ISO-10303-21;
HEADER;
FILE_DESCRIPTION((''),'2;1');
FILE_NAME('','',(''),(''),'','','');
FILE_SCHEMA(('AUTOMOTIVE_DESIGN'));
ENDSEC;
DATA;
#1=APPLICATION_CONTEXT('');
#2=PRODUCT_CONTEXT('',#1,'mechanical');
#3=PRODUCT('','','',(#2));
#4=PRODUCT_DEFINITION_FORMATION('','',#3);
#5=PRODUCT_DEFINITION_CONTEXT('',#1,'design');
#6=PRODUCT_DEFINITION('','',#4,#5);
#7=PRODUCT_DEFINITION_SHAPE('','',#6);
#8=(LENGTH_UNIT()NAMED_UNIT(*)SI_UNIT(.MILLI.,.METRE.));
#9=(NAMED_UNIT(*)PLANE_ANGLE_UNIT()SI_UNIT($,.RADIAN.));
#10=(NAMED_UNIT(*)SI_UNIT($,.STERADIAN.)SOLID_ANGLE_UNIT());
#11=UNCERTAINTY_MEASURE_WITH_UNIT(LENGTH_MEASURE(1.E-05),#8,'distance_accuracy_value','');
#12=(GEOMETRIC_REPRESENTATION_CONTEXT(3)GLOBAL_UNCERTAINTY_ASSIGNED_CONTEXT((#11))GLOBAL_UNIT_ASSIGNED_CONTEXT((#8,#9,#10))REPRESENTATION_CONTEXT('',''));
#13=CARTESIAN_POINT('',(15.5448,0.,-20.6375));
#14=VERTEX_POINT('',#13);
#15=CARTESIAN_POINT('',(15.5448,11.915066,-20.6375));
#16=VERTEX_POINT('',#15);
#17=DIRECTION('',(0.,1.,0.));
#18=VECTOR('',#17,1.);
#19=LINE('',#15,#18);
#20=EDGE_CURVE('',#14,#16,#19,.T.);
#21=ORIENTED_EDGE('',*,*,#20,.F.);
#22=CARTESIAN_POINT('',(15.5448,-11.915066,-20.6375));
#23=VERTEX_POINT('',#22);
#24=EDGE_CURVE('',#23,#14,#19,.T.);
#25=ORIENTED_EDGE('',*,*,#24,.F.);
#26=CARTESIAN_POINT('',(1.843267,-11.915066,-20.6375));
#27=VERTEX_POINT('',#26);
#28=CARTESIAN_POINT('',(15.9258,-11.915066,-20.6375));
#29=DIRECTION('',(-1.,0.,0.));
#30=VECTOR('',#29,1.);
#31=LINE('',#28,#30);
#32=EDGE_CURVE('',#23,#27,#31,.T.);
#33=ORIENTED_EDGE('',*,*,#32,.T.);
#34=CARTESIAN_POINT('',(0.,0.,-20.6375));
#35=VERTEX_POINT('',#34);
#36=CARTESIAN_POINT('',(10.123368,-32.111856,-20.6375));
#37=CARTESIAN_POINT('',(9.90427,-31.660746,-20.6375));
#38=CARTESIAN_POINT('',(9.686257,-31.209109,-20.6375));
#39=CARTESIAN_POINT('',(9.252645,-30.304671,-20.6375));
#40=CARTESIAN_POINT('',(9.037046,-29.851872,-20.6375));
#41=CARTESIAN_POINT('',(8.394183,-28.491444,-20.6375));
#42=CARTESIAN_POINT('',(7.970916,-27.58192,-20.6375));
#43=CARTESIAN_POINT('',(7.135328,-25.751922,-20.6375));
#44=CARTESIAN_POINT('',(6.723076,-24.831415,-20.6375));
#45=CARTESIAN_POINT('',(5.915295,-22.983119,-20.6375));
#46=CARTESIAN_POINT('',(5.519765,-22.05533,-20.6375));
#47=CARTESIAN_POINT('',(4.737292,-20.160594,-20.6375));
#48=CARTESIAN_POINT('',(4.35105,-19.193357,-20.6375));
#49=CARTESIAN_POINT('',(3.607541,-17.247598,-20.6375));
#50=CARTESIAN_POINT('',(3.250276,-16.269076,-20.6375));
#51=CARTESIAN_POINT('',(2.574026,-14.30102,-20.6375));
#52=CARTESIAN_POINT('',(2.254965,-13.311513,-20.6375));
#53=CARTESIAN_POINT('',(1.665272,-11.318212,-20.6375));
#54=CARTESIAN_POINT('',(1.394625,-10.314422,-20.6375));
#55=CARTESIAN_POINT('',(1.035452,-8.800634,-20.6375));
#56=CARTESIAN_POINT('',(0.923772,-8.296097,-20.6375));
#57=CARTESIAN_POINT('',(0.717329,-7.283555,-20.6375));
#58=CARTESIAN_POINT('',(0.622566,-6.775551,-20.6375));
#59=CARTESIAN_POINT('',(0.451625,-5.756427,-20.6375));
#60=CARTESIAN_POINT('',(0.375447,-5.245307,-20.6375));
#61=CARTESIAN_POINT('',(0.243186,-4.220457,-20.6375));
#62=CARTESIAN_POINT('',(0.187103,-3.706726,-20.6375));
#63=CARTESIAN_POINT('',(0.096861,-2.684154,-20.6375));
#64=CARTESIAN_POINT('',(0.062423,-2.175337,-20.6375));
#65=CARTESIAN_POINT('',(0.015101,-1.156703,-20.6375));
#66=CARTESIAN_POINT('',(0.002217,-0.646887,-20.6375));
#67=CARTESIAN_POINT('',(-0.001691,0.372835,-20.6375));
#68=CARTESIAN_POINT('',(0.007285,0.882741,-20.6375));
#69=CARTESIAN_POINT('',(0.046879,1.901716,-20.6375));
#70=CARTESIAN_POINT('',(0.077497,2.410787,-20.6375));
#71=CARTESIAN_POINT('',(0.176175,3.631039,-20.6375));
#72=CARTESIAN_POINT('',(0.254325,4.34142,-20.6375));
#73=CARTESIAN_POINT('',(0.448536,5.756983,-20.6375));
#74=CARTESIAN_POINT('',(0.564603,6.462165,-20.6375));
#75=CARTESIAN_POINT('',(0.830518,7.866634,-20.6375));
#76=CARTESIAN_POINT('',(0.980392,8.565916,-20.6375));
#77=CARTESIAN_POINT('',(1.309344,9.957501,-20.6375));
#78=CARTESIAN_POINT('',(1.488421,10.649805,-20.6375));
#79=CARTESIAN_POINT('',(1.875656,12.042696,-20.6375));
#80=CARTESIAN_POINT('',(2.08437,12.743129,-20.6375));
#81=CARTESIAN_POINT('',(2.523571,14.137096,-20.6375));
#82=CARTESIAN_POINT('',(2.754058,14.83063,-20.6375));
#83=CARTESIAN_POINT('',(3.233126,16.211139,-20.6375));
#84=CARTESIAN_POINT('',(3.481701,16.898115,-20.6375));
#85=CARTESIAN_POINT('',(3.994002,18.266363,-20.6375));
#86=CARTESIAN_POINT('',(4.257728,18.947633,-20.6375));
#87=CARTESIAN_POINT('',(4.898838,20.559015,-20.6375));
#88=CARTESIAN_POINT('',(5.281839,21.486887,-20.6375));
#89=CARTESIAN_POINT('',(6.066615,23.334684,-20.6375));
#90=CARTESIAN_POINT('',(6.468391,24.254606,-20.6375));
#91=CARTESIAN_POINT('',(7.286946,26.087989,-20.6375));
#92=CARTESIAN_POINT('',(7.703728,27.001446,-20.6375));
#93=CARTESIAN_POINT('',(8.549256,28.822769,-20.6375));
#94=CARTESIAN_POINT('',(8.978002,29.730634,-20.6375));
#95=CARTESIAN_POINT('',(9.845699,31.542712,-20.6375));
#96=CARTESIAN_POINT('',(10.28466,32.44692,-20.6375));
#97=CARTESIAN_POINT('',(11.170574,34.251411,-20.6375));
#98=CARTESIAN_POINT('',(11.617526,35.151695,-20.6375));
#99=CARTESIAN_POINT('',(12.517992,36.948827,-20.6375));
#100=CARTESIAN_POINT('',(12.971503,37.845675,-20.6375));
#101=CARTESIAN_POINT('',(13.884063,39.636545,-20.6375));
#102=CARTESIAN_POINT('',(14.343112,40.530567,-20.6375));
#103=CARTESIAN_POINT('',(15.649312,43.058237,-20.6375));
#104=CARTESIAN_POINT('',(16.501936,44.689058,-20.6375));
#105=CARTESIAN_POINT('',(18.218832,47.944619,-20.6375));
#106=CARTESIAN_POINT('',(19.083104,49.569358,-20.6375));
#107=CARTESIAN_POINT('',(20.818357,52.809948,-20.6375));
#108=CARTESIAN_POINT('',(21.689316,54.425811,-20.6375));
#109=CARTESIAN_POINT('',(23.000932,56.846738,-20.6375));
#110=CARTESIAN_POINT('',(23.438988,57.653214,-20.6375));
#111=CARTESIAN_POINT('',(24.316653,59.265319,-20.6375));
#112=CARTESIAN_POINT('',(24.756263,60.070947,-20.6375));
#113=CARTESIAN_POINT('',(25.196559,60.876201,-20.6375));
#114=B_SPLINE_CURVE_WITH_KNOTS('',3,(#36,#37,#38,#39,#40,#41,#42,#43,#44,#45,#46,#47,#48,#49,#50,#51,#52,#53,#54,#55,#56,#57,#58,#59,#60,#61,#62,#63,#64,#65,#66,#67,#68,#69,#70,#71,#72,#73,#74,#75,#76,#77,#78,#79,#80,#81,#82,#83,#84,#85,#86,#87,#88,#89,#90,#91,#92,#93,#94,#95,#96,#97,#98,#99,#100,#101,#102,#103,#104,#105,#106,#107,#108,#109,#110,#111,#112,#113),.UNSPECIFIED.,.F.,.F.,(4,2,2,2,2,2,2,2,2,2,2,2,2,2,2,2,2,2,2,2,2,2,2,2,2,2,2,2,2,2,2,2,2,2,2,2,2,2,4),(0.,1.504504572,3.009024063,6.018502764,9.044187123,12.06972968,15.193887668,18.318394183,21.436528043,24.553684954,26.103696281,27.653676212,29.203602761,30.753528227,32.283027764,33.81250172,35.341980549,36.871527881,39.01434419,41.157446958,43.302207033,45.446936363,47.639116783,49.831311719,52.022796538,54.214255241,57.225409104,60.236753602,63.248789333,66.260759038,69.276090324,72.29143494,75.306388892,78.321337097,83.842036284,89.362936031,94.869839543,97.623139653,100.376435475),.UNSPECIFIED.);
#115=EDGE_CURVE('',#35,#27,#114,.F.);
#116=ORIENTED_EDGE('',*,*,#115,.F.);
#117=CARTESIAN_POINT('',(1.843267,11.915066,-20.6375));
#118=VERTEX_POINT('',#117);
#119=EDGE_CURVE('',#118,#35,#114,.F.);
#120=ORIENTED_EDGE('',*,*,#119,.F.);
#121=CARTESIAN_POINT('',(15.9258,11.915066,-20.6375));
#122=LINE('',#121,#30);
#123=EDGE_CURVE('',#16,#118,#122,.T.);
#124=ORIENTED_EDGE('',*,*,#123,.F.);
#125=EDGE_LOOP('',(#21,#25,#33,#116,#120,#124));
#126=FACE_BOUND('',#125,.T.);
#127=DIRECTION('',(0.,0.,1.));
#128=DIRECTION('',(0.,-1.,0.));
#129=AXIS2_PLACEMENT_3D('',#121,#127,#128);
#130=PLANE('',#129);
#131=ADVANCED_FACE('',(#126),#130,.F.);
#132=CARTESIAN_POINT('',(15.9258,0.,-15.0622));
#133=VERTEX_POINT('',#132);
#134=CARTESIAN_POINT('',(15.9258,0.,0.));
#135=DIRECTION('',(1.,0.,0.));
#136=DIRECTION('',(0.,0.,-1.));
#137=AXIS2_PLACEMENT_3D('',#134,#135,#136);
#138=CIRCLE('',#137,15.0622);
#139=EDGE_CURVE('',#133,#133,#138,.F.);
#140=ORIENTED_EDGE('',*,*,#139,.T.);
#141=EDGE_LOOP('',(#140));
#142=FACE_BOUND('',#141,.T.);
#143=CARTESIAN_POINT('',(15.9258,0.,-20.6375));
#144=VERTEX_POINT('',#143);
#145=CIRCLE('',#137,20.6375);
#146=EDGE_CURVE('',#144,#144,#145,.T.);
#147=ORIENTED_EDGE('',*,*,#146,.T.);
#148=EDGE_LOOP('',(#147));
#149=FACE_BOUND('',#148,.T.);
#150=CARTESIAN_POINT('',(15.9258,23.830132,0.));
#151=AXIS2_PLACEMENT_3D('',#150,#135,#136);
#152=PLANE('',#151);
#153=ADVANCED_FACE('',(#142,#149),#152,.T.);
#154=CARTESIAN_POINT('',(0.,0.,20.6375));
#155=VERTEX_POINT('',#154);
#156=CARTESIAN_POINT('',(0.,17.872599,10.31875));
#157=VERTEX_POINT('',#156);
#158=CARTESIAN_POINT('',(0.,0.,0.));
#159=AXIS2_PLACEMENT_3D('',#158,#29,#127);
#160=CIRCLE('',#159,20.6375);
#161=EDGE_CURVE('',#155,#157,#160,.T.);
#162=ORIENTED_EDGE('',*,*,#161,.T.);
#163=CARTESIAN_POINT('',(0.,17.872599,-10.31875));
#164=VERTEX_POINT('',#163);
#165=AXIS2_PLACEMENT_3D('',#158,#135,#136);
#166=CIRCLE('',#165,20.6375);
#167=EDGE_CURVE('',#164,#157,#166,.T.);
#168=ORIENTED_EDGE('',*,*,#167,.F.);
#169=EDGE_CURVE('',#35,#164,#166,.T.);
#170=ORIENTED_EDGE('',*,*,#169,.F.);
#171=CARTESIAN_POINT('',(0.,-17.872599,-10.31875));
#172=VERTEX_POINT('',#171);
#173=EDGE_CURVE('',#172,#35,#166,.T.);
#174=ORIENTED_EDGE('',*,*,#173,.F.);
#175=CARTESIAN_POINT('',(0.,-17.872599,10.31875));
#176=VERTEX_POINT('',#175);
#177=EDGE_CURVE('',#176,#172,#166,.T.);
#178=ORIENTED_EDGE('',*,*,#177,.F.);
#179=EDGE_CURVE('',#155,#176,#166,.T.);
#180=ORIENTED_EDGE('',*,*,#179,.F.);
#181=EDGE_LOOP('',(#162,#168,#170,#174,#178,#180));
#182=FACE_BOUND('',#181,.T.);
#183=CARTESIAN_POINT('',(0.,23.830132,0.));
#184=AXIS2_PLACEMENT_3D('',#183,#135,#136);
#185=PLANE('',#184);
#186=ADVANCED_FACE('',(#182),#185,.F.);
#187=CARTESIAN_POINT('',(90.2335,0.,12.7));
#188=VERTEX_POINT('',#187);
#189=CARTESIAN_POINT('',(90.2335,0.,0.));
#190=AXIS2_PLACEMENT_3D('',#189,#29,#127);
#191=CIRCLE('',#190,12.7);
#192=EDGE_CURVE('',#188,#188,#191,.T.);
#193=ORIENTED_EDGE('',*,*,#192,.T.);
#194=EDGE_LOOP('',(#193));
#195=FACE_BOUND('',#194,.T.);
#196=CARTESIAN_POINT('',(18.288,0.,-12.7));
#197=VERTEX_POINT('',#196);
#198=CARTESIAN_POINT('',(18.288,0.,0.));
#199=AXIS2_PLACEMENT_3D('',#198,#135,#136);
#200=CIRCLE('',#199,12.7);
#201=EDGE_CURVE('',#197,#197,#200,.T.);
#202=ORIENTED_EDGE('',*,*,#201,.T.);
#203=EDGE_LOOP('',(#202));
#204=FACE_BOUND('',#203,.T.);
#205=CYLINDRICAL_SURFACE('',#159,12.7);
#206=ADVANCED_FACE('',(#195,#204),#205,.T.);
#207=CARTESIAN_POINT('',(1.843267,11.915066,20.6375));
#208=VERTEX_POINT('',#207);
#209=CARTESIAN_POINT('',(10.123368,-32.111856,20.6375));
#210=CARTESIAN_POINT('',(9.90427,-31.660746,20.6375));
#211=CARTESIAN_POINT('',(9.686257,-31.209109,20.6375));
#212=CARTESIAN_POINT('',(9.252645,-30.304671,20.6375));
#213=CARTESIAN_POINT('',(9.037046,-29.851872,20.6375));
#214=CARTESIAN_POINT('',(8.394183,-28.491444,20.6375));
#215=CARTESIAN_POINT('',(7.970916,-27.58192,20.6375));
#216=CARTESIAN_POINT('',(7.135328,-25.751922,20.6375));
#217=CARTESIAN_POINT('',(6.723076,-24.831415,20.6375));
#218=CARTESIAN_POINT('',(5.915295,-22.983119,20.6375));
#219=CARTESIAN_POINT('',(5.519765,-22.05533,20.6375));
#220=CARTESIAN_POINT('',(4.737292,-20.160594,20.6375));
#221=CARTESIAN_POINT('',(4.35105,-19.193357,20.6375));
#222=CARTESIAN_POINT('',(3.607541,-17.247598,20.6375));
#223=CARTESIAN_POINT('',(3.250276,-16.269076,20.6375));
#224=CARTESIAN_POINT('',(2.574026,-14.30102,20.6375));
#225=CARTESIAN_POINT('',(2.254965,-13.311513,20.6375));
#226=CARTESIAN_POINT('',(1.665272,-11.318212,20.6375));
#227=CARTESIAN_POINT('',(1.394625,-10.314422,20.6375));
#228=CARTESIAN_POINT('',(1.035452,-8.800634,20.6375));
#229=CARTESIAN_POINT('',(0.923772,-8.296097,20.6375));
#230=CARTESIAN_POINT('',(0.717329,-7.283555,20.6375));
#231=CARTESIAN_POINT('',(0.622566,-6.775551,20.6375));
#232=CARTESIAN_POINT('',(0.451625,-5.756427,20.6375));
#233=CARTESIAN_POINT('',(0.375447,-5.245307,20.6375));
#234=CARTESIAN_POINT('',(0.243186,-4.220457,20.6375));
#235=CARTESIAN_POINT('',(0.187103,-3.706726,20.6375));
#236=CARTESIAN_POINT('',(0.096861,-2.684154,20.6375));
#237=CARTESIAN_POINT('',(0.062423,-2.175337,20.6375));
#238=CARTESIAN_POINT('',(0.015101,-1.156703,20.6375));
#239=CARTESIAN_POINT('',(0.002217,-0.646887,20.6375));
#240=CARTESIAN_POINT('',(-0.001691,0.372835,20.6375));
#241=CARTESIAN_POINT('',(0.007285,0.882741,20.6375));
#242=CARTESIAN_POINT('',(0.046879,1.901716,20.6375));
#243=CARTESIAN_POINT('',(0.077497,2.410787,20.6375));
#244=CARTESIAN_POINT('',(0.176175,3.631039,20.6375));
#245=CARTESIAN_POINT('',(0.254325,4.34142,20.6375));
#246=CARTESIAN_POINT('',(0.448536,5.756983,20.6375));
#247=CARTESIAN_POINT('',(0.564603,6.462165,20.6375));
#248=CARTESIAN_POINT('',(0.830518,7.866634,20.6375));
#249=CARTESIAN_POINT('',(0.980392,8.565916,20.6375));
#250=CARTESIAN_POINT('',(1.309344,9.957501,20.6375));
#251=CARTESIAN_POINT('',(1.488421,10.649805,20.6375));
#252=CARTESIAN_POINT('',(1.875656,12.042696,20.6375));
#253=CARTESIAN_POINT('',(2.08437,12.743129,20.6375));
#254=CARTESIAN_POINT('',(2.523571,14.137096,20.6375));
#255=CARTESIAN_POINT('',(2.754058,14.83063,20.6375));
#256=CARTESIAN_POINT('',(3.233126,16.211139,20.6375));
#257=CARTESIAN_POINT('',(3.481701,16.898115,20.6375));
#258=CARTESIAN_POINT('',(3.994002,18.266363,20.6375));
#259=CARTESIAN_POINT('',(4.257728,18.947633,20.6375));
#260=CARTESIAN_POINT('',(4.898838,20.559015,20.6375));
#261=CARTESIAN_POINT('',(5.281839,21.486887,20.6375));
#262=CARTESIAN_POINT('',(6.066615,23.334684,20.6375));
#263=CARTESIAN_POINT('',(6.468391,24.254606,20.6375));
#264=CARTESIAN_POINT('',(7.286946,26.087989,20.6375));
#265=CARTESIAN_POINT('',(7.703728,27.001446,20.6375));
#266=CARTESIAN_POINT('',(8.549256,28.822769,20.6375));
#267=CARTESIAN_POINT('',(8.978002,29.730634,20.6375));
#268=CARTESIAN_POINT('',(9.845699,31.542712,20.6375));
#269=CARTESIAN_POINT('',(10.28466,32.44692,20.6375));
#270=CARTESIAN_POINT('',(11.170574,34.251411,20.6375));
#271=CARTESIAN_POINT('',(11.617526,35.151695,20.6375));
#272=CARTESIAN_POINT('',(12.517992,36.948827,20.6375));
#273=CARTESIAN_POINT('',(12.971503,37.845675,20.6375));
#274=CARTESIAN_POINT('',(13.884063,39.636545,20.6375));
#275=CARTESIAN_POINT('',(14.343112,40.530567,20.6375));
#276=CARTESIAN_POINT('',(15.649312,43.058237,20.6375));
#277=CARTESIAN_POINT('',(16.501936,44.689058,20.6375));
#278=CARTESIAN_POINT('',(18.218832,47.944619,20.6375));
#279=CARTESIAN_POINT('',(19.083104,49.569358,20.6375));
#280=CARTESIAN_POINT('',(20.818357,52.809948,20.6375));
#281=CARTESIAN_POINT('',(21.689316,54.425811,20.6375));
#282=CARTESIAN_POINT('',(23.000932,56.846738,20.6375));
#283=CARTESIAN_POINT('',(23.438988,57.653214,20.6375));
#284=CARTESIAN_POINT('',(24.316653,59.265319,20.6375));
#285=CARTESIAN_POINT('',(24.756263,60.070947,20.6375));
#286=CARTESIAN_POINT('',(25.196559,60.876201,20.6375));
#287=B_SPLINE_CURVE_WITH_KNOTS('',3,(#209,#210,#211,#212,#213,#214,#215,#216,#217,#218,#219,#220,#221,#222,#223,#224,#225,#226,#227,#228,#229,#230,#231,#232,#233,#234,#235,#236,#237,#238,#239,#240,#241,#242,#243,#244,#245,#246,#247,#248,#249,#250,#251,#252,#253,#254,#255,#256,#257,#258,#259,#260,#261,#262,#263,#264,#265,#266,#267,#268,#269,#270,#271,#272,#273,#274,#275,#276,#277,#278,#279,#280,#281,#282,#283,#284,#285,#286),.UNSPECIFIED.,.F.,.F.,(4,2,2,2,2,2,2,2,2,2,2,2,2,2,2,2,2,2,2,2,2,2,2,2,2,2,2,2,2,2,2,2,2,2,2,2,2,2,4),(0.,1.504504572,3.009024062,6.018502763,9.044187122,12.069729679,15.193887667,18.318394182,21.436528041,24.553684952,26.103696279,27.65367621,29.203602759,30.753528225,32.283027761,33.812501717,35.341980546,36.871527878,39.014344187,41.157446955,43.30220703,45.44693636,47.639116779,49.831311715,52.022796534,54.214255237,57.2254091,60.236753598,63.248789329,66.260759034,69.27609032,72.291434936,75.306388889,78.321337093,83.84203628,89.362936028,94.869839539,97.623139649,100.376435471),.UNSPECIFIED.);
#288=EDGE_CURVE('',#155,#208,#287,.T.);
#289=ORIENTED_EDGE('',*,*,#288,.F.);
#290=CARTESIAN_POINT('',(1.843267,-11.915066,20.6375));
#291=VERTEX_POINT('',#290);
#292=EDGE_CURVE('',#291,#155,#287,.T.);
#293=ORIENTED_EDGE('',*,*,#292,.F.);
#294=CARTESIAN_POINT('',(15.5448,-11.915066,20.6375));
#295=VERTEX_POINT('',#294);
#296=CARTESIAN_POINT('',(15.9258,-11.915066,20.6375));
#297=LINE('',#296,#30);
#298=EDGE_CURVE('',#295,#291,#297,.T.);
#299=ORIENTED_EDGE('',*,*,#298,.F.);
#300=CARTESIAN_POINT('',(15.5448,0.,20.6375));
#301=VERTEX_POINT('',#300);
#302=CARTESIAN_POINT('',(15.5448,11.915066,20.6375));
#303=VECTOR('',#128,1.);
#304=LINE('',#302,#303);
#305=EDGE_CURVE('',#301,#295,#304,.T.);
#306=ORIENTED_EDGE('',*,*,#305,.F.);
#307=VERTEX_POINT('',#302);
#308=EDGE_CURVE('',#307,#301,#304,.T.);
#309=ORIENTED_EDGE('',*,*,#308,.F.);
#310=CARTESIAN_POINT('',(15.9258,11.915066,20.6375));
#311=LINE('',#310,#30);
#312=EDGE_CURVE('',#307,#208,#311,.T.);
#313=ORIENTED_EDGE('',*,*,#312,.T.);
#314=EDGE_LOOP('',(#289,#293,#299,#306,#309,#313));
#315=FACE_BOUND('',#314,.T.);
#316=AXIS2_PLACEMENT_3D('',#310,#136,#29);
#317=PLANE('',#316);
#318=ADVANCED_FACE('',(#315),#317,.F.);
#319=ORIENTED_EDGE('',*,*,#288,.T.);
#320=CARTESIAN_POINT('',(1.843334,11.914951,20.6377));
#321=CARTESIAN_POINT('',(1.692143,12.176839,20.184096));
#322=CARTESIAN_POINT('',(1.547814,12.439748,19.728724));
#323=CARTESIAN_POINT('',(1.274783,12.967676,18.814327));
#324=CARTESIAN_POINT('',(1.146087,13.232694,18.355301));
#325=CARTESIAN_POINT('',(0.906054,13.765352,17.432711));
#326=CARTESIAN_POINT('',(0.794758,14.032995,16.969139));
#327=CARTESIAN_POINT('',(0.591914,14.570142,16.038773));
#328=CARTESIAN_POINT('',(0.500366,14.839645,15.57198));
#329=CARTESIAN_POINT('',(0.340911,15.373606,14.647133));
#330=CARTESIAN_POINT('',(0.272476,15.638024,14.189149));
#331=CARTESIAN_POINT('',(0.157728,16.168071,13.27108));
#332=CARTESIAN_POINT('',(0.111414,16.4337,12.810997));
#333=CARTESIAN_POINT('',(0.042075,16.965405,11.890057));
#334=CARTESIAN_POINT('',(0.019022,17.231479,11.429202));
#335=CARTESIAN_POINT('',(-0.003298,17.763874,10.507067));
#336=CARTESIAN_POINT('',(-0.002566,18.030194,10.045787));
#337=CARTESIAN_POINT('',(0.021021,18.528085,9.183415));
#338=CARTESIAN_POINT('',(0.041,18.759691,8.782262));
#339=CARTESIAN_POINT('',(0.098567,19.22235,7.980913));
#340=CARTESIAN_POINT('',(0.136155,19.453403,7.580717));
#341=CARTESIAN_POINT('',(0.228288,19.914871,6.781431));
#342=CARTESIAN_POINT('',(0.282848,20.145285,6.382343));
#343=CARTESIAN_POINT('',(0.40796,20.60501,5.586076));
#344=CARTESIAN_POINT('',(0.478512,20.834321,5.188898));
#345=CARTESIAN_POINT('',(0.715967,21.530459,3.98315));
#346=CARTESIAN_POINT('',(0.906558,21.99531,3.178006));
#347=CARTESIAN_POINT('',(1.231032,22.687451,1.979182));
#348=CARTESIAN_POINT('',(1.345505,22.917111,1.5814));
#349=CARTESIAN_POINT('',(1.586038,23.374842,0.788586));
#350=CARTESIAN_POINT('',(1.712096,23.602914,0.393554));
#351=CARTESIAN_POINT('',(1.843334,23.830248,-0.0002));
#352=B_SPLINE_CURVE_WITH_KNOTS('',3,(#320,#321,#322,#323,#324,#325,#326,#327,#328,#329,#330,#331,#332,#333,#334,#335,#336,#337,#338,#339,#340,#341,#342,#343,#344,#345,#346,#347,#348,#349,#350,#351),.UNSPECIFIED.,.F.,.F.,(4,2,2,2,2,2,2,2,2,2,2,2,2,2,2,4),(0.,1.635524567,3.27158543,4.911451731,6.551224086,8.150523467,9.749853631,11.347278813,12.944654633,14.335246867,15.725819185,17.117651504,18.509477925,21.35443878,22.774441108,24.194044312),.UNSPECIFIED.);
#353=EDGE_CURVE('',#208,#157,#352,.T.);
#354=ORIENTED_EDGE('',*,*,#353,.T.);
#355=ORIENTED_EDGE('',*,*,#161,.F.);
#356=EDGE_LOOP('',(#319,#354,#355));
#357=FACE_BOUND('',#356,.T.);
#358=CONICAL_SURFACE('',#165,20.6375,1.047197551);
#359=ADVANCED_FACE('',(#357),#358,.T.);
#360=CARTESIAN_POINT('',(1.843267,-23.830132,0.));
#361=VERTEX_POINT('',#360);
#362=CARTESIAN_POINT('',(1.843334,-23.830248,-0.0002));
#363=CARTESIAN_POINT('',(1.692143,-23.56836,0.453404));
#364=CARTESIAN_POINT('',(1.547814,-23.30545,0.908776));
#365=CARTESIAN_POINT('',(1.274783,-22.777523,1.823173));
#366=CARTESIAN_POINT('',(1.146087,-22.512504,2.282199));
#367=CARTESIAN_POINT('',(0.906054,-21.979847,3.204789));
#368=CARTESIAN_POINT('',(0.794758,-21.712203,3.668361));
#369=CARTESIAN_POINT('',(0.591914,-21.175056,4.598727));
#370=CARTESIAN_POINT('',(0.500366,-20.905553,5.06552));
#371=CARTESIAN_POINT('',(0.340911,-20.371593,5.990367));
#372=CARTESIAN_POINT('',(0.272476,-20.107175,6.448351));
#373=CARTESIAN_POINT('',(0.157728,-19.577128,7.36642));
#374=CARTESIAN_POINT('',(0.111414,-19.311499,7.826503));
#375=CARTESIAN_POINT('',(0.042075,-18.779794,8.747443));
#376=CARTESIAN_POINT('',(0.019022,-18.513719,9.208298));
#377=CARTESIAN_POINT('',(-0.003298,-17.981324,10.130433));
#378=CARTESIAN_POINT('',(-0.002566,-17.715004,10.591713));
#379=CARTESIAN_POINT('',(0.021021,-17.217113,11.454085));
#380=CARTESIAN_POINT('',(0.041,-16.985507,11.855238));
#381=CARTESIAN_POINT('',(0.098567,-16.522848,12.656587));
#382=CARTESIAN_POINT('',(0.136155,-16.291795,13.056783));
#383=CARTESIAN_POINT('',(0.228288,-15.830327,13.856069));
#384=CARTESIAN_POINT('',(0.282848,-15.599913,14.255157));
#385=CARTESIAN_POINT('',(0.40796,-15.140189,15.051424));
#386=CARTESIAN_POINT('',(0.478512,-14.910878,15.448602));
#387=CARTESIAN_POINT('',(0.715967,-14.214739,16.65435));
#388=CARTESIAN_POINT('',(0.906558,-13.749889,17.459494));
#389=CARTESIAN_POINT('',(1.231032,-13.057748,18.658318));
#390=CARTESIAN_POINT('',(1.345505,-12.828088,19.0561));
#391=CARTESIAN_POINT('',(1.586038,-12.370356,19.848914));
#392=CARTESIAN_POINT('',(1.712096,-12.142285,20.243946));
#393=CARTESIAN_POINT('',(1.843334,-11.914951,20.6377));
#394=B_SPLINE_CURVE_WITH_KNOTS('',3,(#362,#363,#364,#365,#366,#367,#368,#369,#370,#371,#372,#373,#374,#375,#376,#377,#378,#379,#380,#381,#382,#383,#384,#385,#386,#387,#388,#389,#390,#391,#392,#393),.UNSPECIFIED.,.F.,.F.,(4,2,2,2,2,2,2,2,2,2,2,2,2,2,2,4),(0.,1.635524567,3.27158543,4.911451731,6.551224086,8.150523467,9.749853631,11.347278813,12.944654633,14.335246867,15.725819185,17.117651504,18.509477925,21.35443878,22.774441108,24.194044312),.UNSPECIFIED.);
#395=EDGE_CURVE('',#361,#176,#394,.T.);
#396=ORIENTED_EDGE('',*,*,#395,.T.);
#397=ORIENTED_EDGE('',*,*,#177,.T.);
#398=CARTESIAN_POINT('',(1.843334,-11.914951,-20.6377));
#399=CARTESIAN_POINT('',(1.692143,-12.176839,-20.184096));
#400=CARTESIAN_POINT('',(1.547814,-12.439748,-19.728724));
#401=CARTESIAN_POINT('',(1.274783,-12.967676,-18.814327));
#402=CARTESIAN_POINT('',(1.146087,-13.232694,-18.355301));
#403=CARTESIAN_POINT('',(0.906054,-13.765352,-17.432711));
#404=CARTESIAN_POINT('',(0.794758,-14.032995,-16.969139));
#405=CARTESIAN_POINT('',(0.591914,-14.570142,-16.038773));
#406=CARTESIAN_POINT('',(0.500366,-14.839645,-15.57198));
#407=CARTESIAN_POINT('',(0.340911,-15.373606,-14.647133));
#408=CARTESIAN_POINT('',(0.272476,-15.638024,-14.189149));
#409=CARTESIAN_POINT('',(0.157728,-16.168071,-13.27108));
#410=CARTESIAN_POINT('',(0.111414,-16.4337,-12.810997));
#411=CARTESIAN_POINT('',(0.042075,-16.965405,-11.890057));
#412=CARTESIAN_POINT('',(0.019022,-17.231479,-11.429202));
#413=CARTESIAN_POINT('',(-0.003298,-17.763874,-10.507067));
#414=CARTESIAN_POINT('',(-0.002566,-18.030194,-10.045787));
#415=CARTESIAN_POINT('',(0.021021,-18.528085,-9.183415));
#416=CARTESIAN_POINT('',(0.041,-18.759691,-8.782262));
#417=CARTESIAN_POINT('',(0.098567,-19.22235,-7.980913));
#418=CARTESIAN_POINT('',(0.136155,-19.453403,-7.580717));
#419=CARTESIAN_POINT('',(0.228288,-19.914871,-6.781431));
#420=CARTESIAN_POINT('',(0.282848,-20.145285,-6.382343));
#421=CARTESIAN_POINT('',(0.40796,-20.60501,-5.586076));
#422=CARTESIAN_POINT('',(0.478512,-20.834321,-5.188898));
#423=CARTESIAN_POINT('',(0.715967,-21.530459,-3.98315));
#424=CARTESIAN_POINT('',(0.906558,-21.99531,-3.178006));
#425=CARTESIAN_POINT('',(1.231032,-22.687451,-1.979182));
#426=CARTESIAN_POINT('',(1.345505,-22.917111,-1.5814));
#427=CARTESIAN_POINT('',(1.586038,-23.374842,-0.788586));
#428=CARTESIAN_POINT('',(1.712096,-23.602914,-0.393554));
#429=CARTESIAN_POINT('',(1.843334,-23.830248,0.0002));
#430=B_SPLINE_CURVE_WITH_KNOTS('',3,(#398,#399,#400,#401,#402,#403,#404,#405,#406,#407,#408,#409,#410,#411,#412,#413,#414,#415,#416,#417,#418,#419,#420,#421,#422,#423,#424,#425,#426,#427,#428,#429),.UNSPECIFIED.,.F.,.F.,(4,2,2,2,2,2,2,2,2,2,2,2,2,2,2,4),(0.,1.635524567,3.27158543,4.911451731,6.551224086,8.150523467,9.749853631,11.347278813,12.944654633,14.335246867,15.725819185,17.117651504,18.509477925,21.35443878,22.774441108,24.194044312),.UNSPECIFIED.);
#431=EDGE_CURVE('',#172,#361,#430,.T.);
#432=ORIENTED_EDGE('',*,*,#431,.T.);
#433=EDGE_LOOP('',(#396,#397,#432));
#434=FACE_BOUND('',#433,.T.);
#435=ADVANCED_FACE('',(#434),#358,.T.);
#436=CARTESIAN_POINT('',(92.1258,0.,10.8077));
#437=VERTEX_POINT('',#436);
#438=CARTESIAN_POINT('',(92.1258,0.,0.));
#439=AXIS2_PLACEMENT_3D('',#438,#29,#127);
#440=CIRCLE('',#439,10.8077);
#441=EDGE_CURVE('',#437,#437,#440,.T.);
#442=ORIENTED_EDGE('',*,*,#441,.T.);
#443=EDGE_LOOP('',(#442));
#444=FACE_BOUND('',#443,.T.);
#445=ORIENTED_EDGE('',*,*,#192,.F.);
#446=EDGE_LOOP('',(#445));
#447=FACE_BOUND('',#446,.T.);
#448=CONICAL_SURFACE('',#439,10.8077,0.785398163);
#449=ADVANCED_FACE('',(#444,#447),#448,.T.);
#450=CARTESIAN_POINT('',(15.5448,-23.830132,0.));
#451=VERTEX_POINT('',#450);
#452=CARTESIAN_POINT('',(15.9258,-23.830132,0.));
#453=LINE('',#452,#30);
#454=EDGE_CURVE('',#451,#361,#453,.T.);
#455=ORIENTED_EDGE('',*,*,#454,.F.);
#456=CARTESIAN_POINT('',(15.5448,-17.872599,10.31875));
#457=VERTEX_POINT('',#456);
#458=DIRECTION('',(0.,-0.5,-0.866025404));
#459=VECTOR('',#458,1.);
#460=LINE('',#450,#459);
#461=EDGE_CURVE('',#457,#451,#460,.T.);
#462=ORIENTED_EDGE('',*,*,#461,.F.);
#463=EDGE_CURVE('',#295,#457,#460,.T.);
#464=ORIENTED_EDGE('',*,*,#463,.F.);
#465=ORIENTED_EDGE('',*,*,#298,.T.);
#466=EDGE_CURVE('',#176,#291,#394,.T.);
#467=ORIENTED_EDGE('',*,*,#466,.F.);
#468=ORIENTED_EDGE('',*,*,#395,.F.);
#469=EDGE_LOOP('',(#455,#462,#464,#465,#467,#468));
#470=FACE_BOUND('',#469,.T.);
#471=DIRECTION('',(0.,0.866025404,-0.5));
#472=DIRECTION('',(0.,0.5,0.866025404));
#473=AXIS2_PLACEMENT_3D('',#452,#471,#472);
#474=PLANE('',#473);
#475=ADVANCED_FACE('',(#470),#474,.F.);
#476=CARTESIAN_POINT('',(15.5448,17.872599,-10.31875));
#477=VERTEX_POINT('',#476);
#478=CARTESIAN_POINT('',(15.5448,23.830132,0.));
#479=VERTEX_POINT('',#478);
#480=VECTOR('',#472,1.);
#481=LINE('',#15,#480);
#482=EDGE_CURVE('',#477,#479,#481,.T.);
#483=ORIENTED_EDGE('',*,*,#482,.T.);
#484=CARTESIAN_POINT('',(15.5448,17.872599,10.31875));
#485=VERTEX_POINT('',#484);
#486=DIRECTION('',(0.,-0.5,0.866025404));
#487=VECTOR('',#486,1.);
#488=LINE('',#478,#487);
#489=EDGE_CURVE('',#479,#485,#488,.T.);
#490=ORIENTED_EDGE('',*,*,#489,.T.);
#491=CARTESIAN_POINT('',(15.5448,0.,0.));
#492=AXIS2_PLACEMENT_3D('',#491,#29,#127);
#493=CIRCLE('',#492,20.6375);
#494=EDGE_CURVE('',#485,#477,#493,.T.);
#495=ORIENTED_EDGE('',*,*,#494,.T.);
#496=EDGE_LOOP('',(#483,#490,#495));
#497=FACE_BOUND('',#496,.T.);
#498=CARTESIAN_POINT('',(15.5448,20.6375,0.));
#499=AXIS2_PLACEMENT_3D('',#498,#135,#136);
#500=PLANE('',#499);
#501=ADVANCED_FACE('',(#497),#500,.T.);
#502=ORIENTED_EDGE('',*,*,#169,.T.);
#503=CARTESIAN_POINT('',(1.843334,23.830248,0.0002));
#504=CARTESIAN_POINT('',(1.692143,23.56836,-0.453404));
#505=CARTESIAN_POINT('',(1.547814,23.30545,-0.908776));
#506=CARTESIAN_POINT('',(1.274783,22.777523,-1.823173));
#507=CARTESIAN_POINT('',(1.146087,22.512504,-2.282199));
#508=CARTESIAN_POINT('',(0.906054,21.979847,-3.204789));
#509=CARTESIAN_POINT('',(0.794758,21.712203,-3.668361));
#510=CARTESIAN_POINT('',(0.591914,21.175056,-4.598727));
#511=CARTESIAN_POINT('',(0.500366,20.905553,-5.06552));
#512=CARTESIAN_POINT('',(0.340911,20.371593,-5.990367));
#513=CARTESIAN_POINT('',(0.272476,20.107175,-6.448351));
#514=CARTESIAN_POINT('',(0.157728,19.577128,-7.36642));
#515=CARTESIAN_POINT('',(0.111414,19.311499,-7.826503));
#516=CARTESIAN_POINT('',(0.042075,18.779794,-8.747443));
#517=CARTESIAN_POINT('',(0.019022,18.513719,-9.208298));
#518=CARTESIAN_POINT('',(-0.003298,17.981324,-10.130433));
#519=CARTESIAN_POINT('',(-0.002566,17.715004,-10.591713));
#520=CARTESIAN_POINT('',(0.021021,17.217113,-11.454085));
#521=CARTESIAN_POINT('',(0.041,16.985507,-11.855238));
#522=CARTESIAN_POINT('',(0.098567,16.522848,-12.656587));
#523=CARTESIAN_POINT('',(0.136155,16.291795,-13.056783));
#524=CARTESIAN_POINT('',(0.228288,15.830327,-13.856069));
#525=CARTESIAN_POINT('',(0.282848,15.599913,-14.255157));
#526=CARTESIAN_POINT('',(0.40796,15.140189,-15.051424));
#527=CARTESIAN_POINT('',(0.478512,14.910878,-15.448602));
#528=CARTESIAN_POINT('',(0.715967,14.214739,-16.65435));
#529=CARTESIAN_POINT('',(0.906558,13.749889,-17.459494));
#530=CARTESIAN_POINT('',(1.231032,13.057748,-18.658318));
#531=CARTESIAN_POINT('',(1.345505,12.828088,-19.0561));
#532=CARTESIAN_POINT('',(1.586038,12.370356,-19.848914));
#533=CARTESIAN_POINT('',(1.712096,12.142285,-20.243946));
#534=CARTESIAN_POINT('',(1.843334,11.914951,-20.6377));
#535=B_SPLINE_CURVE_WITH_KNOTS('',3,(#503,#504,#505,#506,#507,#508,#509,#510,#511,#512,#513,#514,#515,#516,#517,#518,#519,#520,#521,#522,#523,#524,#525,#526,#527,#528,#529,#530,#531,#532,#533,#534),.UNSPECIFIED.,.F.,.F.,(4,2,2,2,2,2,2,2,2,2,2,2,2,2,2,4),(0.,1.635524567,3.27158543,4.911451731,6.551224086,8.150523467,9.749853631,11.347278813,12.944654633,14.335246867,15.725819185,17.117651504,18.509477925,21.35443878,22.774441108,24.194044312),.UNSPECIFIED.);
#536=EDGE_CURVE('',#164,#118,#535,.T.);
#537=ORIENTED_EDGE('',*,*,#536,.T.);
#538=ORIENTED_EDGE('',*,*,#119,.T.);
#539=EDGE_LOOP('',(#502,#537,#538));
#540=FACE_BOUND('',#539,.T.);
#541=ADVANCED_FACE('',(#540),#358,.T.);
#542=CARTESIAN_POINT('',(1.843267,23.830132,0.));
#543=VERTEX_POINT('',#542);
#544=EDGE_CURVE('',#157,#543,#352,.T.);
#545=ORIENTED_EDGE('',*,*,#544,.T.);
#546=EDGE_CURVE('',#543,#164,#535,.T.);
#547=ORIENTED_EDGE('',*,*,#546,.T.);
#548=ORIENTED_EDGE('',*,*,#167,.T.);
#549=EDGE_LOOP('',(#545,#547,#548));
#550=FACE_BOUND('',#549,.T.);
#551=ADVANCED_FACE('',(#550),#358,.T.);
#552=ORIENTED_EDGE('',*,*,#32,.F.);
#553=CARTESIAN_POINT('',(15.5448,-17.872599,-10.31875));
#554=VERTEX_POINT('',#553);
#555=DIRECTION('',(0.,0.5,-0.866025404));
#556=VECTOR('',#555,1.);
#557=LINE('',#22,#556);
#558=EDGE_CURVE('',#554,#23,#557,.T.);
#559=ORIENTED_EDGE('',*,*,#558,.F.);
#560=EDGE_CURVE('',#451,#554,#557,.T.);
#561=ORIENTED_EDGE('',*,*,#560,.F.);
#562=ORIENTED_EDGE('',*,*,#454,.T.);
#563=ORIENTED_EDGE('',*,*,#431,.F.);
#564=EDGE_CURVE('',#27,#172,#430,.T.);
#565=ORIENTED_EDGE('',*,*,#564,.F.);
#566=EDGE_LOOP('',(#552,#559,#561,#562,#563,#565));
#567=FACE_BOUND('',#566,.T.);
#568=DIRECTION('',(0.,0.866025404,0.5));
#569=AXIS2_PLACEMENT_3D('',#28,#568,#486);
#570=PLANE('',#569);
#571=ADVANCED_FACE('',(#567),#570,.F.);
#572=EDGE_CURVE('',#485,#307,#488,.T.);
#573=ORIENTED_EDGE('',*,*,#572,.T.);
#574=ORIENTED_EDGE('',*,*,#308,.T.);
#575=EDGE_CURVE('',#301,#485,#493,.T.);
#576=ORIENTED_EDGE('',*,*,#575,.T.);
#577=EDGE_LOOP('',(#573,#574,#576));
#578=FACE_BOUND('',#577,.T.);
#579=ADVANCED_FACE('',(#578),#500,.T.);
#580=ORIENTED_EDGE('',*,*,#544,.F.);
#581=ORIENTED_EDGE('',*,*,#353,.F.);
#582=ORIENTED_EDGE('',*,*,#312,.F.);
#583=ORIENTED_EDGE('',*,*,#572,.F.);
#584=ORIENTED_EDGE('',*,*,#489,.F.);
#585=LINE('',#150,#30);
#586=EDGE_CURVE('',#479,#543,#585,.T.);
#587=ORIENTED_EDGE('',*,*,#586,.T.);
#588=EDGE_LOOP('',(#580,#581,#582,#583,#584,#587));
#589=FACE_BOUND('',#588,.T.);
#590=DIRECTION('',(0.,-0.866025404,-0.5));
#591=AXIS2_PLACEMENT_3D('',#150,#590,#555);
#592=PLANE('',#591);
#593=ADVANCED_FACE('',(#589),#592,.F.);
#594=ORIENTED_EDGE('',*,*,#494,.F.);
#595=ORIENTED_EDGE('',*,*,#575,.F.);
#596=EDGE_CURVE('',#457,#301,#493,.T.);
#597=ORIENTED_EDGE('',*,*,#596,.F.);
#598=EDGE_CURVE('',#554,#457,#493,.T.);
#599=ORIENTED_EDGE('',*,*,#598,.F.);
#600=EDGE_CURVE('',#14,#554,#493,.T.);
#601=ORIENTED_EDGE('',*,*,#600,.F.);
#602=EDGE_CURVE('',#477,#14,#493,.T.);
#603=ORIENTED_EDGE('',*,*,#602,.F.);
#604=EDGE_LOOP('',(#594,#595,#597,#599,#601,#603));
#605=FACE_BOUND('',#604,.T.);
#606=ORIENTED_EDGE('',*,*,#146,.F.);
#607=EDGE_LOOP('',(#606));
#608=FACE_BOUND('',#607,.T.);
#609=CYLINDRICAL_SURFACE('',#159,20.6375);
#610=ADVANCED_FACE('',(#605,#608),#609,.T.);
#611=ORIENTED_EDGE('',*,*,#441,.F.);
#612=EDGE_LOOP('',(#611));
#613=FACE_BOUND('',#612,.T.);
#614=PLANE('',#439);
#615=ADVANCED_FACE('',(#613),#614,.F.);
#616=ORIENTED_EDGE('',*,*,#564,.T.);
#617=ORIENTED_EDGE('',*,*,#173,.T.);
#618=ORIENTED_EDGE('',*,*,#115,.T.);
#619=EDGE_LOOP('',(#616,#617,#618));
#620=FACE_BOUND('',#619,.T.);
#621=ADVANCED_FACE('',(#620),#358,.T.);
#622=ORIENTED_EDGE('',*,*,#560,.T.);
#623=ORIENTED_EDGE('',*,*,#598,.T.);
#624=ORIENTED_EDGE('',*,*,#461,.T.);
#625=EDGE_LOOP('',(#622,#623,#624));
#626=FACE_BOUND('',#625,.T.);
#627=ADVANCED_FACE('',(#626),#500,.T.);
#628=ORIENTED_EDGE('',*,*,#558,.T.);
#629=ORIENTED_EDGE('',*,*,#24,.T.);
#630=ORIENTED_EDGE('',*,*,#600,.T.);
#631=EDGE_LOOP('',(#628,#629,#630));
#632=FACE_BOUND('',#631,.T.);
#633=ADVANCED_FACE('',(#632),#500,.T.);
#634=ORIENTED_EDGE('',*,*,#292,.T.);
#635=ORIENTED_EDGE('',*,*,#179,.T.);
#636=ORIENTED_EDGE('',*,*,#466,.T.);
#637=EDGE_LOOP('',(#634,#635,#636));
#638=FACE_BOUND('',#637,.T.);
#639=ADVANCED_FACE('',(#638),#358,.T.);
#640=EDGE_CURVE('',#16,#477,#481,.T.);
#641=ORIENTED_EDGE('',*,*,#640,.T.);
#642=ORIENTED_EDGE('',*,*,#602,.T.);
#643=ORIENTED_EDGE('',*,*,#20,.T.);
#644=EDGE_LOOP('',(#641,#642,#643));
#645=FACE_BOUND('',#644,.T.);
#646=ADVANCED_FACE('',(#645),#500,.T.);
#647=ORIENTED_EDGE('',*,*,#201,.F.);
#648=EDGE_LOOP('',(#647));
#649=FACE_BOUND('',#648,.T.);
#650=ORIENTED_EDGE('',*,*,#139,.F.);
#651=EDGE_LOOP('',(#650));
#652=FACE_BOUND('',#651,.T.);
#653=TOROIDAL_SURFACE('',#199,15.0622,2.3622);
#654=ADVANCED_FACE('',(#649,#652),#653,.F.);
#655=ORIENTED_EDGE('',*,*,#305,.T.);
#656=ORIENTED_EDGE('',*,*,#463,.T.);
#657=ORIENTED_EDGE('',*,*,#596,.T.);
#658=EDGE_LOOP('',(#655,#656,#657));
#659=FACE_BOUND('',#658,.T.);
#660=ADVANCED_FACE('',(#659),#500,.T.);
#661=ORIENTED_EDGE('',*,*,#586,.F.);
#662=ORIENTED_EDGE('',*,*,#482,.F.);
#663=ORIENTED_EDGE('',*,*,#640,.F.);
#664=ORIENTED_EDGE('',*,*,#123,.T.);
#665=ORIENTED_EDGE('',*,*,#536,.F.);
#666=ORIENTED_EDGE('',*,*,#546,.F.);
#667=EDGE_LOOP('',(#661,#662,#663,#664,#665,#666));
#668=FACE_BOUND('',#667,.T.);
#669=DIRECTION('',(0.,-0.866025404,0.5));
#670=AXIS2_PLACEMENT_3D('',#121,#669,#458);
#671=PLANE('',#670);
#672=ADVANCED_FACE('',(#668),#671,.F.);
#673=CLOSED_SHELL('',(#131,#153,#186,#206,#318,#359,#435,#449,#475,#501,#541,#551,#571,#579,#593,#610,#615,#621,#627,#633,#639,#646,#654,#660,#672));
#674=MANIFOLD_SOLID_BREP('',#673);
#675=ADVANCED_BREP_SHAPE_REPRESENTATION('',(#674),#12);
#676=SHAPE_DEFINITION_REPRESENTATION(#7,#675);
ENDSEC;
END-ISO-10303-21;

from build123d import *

# Parameters (mm, degrees)
BASEHEAD_DEPTH = 15.9258
SKETCH4_W      = 0.381
SKETCH4_H      = 28.592632361
HEADFILLET_R   = 2.3622


with BuildPart() as part:
    # Sketch1 → BaseHead (new body)
    with BuildSketch(Plane(origin=(0, 0, 0), x_dir=(0, 0, -1), z_dir=(1, 0, 0))):
        Polygon((20.6375, 11.91506618), (20.6375, -11.91506618), (0, -23.830132361), (-20.6375, -11.91506618), (-20.6375, 11.91506618), (0, 23.830132361), align=None)
    extrude(amount=BASEHEAD_DEPTH)

    # BodySke → BaseBody (revolve)
    with BuildSketch(Plane.XY, mode=Mode.PRIVATE) as basebody_sk:
        Polygon((0, 0), (92.1258, 0), (92.1258, 10.8077), (90.2335, 12.7), (0, 12.7), align=None)
    revolve(basebody_sk.sketch.rotate(Axis((0, 0, 0), (1, 0, 0)), 90), axis=Axis((0, 0, 0), (1, 0, 0)))

    # Sketch3 → HeadChamfer (revolve, cut)
    with BuildSketch(Plane.XY):
        Polygon((0, 20.6375), (5.509441362, 30.180132361), (5.509441362, 36.530132361), (-12.7, 36.530132361), (-12.7, 20.6375), align=None)
    revolve(axis=Axis((0, 0, 0), (1, 0, 0)), mode=Mode.SUBTRACT)

    # Sketch4 → BearingFace (revolve, cut)
    with BuildSketch(Plane.XY, mode=Mode.PRIVATE) as bearingface_sk:
        with Locations((15.7353, 34.933816181)):
            Rectangle(SKETCH4_W, SKETCH4_H)
    revolve(bearingface_sk.sketch.rotate(Axis((0, 0, 0), (1, 0, 0)), 270), axis=Axis((0, 0, 0), (1, 0, 0)), mode=Mode.SUBTRACT)

    # HeadFillet
    headfillet_edges = [part.edges().sort_by_distance(p)[0] for p in [
        (15.9258, 0, -12.7),
    ]]
    fillet(headfillet_edges, radius=HEADFILLET_R)


solid = part.part
